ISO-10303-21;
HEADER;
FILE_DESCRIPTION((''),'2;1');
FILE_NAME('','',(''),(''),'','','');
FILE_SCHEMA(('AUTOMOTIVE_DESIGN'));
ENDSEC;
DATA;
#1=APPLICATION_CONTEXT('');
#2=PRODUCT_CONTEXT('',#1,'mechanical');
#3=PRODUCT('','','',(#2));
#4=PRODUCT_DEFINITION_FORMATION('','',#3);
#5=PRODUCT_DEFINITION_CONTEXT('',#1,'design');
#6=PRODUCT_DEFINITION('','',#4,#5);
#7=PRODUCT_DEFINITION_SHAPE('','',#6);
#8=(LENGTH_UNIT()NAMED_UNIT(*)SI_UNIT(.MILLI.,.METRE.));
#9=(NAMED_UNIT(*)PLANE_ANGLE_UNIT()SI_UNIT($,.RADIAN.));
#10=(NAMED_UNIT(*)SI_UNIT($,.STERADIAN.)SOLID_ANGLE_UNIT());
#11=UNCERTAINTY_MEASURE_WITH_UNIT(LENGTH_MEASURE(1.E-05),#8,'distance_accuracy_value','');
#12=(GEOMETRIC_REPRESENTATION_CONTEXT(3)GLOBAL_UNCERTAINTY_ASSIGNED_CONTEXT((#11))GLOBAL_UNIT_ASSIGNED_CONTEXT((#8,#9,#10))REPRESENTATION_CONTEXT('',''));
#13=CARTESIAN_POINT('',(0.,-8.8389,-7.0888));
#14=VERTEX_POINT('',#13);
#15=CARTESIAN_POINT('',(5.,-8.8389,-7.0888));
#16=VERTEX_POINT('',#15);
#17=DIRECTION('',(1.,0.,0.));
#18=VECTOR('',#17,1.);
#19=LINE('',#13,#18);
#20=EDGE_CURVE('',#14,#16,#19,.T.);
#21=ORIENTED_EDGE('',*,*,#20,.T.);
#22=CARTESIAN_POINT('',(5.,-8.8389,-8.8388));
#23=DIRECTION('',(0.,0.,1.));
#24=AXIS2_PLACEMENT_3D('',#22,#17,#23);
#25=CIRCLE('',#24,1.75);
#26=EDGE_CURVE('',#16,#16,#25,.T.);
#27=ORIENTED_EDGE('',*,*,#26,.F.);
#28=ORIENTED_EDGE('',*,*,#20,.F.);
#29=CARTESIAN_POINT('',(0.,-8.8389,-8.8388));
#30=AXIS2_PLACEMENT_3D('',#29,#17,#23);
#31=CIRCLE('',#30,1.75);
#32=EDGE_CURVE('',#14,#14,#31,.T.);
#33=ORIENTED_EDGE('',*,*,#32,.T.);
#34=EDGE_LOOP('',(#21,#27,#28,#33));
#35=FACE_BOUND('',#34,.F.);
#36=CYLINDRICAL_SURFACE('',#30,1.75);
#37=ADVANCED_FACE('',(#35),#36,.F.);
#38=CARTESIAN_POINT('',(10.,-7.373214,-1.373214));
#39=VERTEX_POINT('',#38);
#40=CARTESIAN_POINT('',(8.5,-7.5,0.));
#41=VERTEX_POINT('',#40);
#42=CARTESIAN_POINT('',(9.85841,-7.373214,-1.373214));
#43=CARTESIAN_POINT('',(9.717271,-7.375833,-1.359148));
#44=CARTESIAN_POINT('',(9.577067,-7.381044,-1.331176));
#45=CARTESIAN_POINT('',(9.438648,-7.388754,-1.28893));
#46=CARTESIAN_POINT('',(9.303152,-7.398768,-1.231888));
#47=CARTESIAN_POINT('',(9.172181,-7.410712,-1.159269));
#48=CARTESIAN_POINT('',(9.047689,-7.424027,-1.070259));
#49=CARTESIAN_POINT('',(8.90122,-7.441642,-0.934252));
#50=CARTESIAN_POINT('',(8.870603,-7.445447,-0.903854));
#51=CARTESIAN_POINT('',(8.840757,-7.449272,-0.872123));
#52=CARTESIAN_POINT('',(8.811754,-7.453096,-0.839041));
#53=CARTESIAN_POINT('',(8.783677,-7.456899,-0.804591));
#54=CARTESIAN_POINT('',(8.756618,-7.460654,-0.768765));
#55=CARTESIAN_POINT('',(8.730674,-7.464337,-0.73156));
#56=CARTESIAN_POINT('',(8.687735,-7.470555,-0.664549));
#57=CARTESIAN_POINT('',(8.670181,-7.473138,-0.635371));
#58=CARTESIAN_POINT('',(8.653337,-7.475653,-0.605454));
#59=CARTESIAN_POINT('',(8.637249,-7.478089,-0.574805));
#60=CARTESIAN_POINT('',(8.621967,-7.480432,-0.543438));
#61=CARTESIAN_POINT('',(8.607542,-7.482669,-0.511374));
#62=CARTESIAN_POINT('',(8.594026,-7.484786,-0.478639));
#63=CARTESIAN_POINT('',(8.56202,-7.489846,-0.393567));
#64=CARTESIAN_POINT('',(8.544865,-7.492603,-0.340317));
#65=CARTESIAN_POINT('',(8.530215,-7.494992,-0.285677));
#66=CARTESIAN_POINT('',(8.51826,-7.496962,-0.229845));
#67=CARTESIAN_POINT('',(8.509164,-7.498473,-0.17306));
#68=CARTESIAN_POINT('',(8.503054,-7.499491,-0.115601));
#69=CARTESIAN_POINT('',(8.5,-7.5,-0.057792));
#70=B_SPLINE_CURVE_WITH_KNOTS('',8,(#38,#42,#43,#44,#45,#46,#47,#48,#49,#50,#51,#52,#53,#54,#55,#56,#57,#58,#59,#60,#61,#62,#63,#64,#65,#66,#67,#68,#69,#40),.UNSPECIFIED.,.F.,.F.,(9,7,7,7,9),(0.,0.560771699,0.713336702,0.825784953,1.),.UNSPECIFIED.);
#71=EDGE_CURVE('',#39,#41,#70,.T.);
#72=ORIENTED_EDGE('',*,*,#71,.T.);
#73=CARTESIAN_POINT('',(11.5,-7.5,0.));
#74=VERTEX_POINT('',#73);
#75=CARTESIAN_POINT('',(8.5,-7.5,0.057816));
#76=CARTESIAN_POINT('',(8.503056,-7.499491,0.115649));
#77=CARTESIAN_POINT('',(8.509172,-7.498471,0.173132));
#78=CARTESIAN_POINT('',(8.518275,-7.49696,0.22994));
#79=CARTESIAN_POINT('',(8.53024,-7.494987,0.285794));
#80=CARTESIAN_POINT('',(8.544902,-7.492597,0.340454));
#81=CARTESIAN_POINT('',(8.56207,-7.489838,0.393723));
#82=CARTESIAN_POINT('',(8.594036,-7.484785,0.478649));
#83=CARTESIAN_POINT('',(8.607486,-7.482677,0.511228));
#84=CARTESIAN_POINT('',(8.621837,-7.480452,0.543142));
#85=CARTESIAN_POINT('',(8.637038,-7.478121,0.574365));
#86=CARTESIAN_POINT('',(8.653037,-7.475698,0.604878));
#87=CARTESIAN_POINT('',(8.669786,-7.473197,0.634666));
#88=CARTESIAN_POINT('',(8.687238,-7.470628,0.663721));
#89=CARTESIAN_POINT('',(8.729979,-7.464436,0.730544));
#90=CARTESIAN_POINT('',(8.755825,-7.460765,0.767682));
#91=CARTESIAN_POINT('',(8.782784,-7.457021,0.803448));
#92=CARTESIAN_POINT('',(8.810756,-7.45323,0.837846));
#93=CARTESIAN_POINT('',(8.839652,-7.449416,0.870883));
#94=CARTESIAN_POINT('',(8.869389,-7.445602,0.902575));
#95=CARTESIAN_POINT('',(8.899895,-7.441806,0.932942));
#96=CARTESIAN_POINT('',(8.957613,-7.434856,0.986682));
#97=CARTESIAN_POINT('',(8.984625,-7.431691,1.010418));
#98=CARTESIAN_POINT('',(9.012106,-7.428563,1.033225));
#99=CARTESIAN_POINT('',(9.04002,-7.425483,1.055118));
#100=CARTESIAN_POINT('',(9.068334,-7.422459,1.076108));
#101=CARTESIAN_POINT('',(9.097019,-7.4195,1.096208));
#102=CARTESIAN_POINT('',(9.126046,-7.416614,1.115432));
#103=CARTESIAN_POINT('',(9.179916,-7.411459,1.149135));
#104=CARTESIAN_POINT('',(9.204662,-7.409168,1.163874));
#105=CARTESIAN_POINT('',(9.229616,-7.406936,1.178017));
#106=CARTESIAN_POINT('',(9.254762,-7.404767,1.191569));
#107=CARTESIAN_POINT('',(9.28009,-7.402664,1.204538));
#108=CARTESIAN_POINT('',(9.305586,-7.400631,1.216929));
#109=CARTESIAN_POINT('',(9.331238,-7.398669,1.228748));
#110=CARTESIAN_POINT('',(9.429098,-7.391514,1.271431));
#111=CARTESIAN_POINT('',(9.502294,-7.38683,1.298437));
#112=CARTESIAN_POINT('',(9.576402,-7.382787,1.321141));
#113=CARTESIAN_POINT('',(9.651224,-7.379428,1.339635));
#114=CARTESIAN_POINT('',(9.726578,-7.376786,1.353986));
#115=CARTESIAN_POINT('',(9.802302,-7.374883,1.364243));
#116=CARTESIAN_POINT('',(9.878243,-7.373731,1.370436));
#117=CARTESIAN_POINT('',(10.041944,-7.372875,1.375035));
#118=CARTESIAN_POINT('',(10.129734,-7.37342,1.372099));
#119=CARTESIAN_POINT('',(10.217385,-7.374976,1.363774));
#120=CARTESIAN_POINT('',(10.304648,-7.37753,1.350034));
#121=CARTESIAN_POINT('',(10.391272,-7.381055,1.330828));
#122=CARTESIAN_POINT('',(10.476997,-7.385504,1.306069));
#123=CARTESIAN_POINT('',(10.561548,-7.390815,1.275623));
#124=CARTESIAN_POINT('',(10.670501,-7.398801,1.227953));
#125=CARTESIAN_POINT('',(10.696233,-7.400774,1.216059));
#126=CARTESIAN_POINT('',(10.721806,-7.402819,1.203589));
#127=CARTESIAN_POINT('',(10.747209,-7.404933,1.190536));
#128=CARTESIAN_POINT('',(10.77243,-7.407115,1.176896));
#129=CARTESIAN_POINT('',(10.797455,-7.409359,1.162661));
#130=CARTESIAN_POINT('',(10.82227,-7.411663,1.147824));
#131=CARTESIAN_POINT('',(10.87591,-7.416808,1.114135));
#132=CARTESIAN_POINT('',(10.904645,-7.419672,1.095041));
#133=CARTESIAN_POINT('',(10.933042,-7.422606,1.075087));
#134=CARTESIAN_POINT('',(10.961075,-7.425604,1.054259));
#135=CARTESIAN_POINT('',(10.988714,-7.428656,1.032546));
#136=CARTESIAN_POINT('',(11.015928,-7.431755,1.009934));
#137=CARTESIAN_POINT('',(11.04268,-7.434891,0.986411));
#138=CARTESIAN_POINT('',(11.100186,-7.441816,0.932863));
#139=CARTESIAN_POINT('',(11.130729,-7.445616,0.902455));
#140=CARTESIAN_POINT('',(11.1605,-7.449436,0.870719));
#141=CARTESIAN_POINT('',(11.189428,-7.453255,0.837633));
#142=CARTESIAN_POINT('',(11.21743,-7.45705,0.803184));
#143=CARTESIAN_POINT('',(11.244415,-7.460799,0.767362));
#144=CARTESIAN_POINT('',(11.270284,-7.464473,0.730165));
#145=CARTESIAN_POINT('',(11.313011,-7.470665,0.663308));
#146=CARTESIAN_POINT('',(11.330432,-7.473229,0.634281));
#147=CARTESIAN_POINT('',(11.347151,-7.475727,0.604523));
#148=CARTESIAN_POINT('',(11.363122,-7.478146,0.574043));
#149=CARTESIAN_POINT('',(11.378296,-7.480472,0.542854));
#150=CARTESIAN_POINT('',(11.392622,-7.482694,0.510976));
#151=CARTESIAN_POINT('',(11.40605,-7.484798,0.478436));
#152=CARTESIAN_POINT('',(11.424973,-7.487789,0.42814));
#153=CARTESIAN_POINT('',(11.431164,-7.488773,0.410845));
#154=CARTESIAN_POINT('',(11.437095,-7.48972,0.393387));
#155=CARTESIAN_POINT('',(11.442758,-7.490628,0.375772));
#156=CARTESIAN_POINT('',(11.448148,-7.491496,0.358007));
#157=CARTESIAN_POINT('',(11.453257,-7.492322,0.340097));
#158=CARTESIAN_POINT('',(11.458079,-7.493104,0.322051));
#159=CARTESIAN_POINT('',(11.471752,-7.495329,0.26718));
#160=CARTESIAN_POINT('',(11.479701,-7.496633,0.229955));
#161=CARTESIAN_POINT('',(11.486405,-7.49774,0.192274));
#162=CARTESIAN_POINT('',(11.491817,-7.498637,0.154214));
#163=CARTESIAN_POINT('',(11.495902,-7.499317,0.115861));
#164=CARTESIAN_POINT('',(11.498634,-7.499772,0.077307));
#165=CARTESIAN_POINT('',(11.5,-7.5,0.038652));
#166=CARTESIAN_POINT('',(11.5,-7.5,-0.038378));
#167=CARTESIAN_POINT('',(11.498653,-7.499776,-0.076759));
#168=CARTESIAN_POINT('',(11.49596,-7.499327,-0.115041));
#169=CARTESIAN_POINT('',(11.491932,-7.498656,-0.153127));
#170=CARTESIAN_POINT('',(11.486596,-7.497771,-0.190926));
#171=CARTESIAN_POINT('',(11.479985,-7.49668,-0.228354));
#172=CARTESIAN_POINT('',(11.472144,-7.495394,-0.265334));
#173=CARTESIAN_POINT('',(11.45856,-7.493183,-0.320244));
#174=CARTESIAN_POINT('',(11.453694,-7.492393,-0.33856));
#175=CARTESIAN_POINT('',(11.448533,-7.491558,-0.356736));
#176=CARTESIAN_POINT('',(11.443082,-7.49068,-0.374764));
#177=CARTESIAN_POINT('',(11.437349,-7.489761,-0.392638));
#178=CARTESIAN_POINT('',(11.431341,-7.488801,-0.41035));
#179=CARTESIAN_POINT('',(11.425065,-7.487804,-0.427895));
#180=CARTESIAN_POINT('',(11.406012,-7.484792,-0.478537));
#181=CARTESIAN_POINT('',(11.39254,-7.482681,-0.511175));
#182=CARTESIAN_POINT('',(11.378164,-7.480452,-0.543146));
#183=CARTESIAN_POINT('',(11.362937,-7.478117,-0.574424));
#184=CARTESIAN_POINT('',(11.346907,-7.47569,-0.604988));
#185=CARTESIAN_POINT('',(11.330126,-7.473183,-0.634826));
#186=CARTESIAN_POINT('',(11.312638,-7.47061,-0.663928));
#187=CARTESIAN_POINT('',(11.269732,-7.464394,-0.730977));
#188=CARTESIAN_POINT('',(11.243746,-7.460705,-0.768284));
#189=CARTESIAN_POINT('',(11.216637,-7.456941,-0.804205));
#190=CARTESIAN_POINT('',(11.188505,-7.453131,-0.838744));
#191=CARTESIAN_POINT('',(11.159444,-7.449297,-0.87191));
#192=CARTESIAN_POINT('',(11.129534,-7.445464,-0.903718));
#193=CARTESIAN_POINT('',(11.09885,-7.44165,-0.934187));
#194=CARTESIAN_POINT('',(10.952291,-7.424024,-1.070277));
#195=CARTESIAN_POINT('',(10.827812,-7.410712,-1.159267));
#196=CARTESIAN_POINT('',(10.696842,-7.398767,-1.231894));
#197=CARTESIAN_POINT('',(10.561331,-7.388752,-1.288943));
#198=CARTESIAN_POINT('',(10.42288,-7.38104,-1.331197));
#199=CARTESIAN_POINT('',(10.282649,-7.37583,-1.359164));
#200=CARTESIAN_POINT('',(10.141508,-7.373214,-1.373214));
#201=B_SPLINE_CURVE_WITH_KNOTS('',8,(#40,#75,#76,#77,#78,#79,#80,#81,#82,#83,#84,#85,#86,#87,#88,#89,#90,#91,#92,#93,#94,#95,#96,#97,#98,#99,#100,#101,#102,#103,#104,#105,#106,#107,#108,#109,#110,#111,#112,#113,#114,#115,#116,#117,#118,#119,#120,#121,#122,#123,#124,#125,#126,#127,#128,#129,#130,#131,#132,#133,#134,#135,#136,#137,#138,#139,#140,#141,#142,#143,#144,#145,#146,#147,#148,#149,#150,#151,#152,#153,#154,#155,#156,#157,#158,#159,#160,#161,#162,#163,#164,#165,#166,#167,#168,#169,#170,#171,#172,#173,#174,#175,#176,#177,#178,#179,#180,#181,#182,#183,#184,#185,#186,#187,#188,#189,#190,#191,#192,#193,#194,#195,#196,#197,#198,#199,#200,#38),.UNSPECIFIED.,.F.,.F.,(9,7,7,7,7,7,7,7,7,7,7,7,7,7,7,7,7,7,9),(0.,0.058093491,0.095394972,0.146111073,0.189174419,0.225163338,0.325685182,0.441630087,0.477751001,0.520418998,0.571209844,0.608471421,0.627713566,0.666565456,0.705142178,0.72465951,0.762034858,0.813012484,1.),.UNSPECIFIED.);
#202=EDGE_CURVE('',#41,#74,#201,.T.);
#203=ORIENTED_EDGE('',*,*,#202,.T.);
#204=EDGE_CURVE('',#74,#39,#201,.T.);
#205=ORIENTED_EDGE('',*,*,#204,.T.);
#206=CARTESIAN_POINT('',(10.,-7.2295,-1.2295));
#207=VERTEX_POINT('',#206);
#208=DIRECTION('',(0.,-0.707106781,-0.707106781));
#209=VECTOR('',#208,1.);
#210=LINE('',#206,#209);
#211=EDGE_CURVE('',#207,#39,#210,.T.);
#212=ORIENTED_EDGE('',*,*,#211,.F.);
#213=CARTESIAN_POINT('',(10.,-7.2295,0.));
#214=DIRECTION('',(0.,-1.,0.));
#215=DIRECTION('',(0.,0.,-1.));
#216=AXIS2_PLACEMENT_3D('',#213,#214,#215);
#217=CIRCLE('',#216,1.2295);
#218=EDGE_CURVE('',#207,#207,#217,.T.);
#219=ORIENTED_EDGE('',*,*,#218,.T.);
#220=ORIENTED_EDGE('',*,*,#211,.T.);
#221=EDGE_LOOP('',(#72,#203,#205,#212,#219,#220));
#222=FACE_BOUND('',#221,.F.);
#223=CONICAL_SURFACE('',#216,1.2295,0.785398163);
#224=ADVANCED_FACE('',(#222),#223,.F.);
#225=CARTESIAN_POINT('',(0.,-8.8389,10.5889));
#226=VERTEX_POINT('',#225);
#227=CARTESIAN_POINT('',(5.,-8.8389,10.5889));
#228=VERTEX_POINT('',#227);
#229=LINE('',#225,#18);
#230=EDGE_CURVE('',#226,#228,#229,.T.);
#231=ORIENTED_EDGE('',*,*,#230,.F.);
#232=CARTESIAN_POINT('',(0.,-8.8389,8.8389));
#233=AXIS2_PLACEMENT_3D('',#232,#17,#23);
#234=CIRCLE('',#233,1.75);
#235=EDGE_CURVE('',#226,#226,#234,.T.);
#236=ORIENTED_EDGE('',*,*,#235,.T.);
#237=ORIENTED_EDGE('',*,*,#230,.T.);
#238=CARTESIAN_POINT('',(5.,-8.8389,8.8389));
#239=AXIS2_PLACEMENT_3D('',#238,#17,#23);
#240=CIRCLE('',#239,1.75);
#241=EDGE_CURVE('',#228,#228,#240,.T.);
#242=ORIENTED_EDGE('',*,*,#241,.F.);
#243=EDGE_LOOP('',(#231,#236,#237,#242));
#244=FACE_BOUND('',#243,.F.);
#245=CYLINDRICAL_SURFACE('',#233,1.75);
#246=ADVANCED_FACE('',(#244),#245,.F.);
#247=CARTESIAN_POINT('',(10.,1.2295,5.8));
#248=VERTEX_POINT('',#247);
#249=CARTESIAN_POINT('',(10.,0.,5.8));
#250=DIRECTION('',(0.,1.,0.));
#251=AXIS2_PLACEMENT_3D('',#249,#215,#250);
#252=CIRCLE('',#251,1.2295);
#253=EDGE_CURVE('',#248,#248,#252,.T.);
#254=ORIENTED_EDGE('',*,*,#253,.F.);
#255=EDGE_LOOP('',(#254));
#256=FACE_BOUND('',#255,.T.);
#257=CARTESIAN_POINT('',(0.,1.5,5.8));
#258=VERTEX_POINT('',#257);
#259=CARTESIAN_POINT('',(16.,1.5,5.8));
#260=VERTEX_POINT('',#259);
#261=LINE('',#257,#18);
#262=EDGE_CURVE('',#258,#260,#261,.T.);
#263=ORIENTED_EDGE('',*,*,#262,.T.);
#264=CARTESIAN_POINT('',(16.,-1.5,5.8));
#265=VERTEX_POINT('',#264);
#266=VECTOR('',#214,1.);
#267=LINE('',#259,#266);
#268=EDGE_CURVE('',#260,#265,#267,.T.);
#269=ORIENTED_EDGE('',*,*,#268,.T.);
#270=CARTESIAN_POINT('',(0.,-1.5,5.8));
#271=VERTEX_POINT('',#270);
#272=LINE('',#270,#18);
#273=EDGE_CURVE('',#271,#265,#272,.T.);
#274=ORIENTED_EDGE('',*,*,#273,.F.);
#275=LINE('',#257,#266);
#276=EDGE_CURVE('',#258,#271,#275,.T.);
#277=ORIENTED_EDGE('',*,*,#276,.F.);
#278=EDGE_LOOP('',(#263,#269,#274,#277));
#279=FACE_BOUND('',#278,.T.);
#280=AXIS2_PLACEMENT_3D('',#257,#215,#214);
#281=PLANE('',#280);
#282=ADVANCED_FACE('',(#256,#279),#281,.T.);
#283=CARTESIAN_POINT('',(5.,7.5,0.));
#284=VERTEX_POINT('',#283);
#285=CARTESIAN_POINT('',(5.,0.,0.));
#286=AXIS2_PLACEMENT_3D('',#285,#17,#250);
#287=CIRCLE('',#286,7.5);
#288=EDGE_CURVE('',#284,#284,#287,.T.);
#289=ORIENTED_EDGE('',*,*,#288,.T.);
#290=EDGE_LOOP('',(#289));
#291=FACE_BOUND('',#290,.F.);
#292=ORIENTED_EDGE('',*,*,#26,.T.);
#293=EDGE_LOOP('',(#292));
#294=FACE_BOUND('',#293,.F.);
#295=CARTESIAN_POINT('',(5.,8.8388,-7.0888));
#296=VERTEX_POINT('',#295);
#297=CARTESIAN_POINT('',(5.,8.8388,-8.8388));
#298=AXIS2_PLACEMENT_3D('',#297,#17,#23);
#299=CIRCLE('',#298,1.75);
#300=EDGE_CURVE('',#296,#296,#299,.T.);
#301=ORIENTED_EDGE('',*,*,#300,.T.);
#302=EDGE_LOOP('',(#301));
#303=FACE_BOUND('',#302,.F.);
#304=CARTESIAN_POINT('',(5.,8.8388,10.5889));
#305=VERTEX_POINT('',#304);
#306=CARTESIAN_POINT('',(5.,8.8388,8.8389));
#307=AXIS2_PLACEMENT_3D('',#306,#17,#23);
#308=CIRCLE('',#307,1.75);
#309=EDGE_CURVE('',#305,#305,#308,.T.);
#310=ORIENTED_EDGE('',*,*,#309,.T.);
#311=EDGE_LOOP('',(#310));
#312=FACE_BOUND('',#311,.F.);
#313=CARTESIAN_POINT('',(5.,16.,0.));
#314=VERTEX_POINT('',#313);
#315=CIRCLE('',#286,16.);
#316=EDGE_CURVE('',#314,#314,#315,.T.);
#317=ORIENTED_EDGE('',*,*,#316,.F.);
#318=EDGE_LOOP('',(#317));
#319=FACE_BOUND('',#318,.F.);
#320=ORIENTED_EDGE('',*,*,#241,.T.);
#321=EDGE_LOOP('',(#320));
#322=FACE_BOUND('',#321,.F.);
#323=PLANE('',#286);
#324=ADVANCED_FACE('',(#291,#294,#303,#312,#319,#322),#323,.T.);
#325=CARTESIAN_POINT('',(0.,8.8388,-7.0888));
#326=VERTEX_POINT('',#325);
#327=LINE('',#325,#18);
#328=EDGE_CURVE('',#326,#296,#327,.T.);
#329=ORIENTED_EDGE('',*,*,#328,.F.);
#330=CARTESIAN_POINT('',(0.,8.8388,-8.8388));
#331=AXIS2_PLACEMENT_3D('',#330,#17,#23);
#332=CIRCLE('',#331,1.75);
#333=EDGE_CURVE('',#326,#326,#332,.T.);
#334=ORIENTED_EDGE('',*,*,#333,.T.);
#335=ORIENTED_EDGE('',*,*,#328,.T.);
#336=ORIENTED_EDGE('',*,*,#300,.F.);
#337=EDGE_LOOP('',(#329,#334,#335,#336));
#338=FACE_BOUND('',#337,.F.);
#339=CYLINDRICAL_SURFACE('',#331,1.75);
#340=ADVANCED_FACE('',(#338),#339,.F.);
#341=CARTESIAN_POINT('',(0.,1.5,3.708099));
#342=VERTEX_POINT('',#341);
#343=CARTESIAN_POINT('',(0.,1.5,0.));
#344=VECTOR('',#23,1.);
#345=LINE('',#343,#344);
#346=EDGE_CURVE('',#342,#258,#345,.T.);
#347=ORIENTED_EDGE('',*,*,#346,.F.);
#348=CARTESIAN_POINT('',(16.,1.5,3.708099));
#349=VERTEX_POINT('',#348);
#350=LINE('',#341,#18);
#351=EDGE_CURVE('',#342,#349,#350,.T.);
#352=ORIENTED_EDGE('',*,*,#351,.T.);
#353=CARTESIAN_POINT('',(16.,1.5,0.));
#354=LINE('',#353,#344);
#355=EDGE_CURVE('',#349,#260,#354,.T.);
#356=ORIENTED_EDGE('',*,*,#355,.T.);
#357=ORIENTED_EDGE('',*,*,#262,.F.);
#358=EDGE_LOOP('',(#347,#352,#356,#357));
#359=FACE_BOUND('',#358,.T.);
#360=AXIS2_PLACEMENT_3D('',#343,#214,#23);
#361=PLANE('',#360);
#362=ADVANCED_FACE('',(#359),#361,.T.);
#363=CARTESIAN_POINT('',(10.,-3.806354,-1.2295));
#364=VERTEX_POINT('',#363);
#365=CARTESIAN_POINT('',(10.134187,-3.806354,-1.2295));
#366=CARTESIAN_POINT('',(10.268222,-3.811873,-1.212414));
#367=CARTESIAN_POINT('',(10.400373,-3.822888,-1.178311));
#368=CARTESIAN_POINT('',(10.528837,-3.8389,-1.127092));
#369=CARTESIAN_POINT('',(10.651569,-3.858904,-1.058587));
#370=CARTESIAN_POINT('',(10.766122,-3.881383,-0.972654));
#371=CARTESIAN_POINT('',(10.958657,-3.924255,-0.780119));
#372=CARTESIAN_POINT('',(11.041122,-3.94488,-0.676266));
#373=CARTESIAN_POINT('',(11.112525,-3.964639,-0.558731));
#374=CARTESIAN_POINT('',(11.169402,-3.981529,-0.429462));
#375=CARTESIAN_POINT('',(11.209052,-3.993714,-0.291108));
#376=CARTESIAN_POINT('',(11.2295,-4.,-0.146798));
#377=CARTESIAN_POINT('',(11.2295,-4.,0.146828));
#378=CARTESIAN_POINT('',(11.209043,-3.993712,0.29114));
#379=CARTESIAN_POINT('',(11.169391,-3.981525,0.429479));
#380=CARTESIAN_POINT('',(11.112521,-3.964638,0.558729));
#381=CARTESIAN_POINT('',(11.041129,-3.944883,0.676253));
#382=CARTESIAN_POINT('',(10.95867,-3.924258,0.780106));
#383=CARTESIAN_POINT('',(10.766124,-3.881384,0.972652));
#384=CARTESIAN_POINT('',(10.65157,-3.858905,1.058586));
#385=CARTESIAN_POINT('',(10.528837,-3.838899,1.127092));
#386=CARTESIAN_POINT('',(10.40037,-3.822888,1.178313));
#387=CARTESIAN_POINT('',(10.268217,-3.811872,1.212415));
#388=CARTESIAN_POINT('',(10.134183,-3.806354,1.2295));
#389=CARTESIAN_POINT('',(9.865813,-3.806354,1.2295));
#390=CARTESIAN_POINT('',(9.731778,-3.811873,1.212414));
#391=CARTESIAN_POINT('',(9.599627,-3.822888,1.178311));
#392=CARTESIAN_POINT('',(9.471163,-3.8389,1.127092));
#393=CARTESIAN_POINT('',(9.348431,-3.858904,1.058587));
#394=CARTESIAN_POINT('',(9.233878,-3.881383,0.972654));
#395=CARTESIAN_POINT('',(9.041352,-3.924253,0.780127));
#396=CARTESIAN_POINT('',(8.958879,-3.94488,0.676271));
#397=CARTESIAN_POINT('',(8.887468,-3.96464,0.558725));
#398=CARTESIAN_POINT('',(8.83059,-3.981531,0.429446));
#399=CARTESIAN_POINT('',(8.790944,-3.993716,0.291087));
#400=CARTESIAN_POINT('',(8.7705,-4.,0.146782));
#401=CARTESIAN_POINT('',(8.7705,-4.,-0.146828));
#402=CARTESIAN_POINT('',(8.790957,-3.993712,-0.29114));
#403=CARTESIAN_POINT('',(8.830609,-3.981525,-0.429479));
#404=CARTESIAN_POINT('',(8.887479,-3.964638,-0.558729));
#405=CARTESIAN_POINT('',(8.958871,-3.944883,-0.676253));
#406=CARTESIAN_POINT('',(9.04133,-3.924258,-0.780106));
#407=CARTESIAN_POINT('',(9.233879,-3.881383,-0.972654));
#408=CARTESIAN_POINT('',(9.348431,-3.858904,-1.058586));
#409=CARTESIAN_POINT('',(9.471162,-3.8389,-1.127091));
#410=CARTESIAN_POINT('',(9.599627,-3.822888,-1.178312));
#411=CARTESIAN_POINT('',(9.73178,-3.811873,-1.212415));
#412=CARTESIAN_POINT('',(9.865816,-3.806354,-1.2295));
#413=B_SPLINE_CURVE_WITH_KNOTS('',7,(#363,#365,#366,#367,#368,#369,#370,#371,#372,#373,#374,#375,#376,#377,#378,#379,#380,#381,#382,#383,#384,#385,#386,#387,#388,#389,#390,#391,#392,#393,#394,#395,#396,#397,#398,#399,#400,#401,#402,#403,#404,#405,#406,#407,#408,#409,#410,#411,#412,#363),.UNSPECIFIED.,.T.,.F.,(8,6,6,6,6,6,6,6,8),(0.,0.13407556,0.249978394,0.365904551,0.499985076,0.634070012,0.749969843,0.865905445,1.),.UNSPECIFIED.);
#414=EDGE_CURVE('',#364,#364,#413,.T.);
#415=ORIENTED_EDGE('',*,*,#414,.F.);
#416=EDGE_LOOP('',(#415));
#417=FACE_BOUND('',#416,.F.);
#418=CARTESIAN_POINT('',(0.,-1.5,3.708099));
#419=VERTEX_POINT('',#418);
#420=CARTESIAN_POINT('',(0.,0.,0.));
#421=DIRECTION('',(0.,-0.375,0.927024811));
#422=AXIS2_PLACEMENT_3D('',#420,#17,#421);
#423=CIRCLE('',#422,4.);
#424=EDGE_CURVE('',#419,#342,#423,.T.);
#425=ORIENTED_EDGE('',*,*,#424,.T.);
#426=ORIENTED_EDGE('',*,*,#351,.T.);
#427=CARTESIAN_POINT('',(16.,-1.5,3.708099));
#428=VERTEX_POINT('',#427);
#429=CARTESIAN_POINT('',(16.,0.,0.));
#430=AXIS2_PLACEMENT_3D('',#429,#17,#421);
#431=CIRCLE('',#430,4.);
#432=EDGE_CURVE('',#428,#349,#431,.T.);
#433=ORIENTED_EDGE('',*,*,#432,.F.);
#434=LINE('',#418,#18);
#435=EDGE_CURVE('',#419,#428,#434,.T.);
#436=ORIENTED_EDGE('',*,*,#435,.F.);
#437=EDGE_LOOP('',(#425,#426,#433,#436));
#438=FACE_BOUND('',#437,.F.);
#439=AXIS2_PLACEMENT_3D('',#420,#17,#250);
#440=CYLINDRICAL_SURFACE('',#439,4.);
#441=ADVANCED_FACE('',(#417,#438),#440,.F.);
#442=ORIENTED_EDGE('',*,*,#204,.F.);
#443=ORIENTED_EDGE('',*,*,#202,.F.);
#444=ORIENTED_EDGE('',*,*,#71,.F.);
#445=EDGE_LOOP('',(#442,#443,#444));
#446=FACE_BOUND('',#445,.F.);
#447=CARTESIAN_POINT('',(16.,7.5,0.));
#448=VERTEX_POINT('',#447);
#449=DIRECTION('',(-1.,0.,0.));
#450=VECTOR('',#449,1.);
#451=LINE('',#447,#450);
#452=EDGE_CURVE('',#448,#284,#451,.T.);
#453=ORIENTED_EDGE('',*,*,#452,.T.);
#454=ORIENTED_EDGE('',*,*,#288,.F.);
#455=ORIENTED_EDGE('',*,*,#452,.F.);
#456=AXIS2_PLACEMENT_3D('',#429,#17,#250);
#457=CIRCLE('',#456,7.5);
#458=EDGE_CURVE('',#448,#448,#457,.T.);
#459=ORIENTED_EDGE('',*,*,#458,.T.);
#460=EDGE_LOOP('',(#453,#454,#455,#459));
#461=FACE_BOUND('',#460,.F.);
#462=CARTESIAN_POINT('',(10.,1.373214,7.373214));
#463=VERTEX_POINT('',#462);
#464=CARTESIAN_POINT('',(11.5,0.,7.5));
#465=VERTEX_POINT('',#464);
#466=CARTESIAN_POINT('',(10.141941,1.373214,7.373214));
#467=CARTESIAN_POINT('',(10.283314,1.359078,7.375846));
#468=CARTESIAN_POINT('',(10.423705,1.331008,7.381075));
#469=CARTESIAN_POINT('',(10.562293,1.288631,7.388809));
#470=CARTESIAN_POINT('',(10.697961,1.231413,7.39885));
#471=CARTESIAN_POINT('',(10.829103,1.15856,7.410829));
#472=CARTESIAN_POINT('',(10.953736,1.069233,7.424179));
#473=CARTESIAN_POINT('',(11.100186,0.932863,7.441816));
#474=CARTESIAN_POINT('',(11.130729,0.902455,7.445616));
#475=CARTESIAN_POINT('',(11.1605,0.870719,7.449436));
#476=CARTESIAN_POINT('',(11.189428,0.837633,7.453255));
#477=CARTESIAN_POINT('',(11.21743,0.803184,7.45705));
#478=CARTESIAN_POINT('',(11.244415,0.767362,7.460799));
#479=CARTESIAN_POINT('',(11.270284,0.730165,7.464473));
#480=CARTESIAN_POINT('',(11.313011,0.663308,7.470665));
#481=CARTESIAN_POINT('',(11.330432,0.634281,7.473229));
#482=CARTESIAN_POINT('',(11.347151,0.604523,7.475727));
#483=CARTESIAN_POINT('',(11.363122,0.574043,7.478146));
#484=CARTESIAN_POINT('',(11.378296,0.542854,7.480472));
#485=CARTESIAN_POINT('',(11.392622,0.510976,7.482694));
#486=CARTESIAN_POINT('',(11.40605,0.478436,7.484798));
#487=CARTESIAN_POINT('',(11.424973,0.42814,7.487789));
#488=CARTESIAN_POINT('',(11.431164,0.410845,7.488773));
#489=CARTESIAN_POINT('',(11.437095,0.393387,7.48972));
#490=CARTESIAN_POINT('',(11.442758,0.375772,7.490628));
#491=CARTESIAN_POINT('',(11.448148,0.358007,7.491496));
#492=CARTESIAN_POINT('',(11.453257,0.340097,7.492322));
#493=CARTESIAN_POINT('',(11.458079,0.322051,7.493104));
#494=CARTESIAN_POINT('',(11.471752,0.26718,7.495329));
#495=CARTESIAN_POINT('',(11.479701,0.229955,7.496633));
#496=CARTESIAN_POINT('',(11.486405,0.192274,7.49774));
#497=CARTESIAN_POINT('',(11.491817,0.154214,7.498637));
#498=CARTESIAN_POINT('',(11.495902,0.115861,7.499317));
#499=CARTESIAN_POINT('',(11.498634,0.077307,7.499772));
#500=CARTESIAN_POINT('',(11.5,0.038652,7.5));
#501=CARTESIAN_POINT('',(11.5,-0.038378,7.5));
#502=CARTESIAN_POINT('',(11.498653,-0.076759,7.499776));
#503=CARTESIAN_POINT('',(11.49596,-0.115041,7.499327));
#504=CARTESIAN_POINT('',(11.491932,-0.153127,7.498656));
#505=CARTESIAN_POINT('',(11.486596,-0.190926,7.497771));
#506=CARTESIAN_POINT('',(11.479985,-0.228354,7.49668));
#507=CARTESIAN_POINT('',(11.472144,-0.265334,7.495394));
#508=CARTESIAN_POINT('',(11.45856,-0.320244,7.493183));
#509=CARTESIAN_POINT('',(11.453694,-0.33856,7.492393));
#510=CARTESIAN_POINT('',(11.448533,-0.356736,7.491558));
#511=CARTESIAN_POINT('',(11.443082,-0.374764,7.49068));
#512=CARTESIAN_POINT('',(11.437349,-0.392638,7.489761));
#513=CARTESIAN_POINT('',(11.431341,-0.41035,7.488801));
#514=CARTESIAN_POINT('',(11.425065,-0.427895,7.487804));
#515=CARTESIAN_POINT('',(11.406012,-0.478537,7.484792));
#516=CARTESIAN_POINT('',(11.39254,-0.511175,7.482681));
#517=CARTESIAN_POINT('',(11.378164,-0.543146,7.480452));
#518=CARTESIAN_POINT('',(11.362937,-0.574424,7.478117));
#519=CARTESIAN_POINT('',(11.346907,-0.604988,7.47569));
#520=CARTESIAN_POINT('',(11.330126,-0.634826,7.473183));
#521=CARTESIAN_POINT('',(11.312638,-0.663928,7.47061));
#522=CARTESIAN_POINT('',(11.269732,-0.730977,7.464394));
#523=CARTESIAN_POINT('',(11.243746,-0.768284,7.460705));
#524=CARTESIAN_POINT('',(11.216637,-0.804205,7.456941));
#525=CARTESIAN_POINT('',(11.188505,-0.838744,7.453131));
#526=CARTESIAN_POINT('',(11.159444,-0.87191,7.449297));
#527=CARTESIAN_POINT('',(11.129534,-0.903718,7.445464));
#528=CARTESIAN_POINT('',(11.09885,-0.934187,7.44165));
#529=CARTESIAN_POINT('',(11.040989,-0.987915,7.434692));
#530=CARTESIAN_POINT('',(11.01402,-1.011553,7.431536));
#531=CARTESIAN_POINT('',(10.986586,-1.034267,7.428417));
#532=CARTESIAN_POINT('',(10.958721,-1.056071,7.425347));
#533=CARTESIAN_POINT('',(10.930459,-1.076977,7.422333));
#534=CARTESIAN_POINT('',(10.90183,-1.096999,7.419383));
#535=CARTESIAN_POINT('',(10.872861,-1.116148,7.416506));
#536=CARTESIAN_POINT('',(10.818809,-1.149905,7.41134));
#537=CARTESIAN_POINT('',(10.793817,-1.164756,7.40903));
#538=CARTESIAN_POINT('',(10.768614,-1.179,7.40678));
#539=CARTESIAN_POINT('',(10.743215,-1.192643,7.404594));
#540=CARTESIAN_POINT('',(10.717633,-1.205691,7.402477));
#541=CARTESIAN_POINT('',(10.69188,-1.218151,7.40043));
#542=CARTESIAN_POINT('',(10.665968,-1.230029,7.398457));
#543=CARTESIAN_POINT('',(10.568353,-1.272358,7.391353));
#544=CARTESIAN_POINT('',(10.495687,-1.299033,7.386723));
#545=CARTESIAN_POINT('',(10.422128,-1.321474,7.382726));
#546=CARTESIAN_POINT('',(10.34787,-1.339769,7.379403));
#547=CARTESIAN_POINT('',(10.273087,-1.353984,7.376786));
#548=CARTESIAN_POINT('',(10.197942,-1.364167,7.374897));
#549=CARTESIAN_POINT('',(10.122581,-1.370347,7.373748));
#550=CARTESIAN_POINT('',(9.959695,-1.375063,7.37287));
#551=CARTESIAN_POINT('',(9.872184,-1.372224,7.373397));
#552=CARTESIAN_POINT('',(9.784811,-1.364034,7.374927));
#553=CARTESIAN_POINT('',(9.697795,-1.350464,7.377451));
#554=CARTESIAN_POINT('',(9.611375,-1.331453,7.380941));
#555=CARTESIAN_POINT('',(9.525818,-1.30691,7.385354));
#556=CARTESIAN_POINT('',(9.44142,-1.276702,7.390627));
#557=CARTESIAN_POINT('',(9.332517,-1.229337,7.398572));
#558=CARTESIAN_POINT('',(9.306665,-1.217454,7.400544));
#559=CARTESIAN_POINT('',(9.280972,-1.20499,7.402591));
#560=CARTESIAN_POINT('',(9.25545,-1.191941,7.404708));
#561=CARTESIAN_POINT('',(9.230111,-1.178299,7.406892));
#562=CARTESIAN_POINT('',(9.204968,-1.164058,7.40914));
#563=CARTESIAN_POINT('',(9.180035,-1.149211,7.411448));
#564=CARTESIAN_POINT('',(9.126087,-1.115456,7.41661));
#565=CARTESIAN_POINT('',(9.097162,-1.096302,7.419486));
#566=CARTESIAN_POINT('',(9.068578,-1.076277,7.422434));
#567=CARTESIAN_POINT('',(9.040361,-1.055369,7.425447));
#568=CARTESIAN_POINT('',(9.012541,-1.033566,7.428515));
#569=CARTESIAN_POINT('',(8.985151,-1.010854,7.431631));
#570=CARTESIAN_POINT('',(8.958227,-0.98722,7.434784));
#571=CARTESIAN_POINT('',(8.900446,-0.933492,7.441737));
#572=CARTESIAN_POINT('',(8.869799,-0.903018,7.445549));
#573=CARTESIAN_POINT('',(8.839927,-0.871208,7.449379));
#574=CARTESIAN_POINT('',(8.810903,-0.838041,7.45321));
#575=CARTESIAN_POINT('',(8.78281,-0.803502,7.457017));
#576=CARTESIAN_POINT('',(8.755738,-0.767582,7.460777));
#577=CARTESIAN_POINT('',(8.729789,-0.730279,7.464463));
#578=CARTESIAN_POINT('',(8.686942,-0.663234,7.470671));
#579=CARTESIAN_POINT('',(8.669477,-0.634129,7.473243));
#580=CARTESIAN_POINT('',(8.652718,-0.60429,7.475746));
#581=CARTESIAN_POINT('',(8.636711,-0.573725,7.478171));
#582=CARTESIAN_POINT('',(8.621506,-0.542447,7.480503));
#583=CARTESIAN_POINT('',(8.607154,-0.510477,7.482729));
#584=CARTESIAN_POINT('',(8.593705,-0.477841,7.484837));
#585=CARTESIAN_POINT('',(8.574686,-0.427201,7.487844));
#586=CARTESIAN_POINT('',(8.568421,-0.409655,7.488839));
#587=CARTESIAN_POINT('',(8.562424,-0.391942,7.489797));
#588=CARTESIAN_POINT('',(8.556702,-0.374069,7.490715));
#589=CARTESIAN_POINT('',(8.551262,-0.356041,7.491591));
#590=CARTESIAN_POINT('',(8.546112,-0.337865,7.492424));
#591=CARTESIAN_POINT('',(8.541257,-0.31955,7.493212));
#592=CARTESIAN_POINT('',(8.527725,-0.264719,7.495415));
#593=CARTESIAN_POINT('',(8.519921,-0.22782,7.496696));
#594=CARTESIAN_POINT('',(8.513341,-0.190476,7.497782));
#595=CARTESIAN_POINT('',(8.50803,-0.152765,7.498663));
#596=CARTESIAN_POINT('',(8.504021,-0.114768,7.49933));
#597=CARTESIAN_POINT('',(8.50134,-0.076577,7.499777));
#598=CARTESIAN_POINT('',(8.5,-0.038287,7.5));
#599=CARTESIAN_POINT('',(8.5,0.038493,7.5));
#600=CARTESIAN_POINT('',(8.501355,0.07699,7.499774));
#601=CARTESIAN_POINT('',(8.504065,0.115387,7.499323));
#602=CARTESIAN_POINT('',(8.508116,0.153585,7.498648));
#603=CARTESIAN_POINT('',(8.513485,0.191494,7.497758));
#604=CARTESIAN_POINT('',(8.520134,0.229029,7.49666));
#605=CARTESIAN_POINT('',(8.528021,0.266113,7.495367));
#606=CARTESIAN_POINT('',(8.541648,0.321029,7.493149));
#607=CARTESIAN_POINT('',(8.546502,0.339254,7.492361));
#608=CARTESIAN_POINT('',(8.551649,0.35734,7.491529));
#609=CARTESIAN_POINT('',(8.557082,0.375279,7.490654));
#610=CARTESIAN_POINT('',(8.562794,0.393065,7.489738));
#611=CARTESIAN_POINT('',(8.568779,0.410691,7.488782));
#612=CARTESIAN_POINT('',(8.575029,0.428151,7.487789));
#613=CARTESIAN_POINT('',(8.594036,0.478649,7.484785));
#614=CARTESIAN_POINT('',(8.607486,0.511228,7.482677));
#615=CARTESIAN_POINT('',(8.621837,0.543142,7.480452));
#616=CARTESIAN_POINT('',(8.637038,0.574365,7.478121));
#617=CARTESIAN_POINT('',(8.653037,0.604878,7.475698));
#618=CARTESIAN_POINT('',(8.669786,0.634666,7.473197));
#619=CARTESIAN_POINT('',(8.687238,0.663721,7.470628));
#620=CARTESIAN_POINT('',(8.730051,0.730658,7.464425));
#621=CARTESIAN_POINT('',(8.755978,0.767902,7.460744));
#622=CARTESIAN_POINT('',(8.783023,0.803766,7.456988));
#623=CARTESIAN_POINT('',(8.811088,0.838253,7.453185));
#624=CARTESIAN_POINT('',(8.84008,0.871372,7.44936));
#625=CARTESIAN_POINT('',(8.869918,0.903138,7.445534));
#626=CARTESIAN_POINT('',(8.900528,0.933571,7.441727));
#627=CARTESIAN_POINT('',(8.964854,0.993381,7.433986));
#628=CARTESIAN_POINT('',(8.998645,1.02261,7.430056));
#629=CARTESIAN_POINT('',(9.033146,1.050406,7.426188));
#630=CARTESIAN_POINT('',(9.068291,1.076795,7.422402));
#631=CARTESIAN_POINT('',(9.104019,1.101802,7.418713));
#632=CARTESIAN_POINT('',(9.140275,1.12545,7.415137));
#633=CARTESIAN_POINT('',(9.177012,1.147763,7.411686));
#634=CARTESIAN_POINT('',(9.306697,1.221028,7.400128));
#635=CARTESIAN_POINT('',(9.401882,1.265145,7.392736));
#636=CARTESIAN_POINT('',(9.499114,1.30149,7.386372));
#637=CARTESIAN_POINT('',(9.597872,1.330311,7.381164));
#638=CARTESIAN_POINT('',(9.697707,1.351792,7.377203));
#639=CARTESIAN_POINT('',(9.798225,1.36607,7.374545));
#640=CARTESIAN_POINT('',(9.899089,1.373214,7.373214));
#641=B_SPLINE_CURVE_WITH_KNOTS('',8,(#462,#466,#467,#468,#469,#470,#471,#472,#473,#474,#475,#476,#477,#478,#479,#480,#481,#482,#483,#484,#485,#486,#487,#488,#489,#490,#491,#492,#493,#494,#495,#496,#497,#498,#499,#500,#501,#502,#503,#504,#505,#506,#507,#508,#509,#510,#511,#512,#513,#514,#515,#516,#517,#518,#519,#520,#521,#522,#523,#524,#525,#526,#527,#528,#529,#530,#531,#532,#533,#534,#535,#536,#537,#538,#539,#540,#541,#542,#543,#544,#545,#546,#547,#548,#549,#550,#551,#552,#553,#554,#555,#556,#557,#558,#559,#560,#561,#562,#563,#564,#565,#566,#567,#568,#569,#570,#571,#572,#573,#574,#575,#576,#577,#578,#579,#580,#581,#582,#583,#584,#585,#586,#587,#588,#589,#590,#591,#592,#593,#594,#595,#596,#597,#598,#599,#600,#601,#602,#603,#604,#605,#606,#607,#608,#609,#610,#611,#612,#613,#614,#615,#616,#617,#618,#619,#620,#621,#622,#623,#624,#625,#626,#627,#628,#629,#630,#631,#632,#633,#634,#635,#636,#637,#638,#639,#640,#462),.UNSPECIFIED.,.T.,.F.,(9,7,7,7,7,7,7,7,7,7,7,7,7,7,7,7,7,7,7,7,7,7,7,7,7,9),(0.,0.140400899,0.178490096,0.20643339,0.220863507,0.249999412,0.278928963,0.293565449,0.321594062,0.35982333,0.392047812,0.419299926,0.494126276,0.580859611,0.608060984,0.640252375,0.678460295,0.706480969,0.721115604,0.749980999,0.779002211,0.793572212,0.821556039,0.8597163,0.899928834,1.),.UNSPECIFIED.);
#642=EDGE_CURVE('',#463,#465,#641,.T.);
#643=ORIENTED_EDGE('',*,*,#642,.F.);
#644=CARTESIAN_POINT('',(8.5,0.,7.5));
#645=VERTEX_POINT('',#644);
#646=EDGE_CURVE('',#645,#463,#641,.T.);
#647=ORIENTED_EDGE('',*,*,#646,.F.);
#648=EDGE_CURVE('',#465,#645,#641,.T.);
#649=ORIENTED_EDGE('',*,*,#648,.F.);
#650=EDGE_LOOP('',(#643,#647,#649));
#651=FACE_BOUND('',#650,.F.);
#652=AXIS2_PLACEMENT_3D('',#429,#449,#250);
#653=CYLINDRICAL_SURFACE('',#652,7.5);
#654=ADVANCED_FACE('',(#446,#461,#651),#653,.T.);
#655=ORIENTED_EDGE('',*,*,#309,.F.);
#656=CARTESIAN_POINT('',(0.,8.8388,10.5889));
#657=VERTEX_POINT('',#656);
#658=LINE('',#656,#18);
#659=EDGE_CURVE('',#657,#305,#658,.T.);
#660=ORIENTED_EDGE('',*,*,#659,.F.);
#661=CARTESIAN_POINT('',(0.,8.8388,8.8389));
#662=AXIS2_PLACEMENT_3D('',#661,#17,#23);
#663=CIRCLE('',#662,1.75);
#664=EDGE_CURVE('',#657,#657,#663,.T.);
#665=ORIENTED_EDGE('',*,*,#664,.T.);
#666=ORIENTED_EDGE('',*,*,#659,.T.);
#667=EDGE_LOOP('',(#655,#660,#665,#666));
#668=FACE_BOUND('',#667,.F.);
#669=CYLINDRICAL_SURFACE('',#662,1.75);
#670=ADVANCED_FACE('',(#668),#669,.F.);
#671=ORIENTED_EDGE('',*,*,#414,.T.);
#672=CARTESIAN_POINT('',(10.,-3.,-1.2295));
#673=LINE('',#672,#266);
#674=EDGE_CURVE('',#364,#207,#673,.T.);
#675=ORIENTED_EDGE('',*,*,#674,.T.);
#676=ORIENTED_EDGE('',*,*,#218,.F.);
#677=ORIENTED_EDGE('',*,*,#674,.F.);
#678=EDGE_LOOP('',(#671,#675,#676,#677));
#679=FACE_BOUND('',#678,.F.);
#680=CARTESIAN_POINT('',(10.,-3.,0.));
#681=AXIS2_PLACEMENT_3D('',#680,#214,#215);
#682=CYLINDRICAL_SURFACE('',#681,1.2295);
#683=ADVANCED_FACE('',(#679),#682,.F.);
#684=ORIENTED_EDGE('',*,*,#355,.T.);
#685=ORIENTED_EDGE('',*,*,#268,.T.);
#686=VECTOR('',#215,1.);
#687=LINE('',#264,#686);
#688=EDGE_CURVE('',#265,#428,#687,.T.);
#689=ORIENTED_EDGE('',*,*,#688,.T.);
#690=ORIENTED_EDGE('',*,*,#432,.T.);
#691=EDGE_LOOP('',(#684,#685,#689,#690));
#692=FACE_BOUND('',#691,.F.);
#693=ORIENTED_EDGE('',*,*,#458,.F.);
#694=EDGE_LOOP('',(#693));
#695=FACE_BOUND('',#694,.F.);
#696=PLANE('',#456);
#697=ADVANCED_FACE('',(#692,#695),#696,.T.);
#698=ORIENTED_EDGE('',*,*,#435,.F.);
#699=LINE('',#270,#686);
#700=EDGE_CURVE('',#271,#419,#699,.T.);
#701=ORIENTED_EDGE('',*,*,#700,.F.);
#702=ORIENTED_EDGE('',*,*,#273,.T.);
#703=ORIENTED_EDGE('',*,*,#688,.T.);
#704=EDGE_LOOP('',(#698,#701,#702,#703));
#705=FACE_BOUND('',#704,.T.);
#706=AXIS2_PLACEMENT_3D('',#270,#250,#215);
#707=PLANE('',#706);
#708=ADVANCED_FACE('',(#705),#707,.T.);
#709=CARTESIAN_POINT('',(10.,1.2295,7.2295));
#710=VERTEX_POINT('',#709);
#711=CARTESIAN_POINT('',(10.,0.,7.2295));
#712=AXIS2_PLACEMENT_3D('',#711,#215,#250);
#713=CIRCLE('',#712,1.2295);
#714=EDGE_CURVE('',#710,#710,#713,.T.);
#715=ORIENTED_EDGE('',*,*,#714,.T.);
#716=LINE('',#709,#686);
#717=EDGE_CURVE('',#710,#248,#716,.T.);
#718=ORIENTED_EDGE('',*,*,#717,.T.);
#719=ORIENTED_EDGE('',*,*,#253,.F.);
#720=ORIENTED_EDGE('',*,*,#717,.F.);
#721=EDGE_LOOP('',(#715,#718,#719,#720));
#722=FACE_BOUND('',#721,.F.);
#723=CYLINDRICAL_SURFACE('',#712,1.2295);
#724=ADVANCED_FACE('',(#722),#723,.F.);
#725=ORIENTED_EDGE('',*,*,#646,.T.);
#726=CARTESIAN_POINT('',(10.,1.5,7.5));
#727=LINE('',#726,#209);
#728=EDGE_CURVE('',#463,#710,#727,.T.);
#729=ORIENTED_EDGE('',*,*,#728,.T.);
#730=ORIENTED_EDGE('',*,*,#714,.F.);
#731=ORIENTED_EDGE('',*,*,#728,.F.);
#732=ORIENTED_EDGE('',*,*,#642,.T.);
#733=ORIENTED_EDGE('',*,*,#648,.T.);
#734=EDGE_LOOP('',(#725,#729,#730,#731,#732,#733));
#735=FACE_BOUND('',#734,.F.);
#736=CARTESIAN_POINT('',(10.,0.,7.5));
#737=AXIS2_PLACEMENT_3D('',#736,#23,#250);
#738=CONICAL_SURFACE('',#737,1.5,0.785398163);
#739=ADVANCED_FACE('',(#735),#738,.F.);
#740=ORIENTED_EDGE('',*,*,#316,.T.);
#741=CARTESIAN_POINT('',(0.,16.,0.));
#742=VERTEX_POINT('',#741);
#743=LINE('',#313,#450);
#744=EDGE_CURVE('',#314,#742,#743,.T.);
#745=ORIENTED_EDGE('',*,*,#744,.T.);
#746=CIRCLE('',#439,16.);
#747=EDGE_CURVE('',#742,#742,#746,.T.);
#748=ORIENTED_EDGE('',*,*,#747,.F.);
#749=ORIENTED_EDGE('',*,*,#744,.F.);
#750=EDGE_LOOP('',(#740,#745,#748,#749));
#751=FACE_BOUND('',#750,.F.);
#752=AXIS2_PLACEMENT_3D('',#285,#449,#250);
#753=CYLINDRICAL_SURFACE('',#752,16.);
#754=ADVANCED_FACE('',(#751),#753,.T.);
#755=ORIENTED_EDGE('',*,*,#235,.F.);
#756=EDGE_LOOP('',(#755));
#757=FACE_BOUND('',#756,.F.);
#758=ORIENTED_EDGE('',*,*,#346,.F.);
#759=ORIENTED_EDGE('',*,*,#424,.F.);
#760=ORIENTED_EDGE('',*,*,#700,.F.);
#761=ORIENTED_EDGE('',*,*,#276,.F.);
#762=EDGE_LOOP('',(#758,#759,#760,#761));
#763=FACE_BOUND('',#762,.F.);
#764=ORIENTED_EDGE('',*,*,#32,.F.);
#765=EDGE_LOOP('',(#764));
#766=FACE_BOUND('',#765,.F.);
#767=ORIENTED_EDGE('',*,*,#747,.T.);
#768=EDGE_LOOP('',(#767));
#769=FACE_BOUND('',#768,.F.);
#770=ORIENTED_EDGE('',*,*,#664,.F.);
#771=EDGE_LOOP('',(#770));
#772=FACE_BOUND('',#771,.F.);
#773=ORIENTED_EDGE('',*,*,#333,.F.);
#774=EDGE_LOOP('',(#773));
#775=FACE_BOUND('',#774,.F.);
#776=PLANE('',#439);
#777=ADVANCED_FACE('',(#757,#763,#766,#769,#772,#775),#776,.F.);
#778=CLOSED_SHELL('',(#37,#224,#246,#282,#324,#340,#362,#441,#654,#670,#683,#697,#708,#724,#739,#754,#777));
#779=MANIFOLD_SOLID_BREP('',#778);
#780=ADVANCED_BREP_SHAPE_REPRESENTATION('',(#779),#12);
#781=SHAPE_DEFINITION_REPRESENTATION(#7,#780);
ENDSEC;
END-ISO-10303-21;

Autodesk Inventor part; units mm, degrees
sketch "Sketch_1" plane through (0, 0, 0) normal (0, 0, 1) x (1, 0, 0)
  line L0 (16, 0) -> (0, 0)
  line L1 (0, 4) -> (16, 4)
  line L2 (16, 4) -> (16, 7.5)
  line L3 (16, 7.5) -> (5, 7.5)
  line L4 (5, 7.5) -> (5, 16)
  line L5 (5, 16) -> (0, 16)
  line L6 (0, 16) -> (0, 4)
revolve "Revolution1" add sketch "Sketch_1" angle 360 about axis through (16, 0, 0) along (1, 0, 0)
sketch "Sketch2" plane through (0, 0, 0) normal (-1, 0, 0) x (0, 0, 1)
  point P0 (-8.8388, 8.8388)
hole "Hole1" at (0, 8.8388, -8.8388) direction (1, 0, 0) diameter 3.5 depth 5
pattern_linear "Rectangular Pattern1" count 2 spacing 17.6777 along (0, 0, 1) count 2 spacing 17.6777 along (0, -1, 0) of "Hole1"
sketch "Sketch_4" plane through (10, 0, 0) normal (1, 0, 0) x (0, 0, -1)
  line L0 (0, -7.5) -> (0, -3)
  line L1 (0, -3) -> (1.2295, -3)
  line L2 (1.2295, -3) -> (1.2295, -7.2295)
  line L3 (1.2295, -7.2295) -> (1.5, -7.5)
  line L4 (1.5, -7.5) -> (0, -7.5)
  line L5 (0, -7.5) -> (0, -3)
revolve "Revolution2" cut sketch "Sketch_4" angle 360 about axis through (10, -7.5, 0) along (0, -1, 0)
thread "Thread1" size "M3x0.5" class "6H" standard "ISO Metric profile" length 3.2295
sketch "Sketch_8" plane through (0, 0, 0) normal (1, 0, 0) x (0, 1, 0)
  line L0 (1.5, 5.8) -> (-1.5, 5.8)
  line L1 (-1.5, 5.8) -> (-1.5, 0)
  line L2 (-1.5, 0) -> (1.5, 0)
  line L3 (1.5, 0) -> (1.5, 5.8)
extrude "Extrusion1" cut sketch "Sketch_8" along normal blind 16
sketch "Sketch_5" plane through (10, 0, 0) normal (1, 0, 0) x (0, 0, -1)
  line L0 (-4, 0) -> (-7.5, 0)
  line L1 (-7.5, 0) -> (-7.5, 1.5)
  line L2 (-7.5, 1.5) -> (-7.2295, 1.2295)
  line L3 (-7.2295, 1.2295) -> (-4, 1.2295)
  line L4 (-4, 1.2295) -> (-4, 0)
  line L5 (-4, 0) -> (-7.5, 0)
revolve "Revolution3" cut sketch "Sketch_5" angle 360 about axis through (10, 0, 4) along (0, 0, -1)
thread "Thread2" size "M3x0.5" class "6H" standard "ISO Metric profile" length 1.4295
ref_plane "to_screw1_XY" through (10, 0, 5.8) normal (0, 0, 1) x (1, 0, 0)
ref_plane "to_screw1_YZ" through (10, 0, 5.8) normal (1, 0, 0) x (0, 1, 0)
ref_plane "to_screw1_ZX" through (10, 0, 5.8) normal (0, 1, 0) x (0, 0, 1)
ref_plane "to_screw2_XY" through (10, -4, 0) normal (0, -1, 0) x (1, 0, 0)
ref_plane "to_screw2_YZ" through (10, -4, 0) normal (1, 0, 0) x (0, 0, 1)
ref_plane "to_screw2_ZX" through (10, -4, 0) normal (0, 0, 1) x (0, -1, 0)
properties part number "STHRANG8-MB_ss"
